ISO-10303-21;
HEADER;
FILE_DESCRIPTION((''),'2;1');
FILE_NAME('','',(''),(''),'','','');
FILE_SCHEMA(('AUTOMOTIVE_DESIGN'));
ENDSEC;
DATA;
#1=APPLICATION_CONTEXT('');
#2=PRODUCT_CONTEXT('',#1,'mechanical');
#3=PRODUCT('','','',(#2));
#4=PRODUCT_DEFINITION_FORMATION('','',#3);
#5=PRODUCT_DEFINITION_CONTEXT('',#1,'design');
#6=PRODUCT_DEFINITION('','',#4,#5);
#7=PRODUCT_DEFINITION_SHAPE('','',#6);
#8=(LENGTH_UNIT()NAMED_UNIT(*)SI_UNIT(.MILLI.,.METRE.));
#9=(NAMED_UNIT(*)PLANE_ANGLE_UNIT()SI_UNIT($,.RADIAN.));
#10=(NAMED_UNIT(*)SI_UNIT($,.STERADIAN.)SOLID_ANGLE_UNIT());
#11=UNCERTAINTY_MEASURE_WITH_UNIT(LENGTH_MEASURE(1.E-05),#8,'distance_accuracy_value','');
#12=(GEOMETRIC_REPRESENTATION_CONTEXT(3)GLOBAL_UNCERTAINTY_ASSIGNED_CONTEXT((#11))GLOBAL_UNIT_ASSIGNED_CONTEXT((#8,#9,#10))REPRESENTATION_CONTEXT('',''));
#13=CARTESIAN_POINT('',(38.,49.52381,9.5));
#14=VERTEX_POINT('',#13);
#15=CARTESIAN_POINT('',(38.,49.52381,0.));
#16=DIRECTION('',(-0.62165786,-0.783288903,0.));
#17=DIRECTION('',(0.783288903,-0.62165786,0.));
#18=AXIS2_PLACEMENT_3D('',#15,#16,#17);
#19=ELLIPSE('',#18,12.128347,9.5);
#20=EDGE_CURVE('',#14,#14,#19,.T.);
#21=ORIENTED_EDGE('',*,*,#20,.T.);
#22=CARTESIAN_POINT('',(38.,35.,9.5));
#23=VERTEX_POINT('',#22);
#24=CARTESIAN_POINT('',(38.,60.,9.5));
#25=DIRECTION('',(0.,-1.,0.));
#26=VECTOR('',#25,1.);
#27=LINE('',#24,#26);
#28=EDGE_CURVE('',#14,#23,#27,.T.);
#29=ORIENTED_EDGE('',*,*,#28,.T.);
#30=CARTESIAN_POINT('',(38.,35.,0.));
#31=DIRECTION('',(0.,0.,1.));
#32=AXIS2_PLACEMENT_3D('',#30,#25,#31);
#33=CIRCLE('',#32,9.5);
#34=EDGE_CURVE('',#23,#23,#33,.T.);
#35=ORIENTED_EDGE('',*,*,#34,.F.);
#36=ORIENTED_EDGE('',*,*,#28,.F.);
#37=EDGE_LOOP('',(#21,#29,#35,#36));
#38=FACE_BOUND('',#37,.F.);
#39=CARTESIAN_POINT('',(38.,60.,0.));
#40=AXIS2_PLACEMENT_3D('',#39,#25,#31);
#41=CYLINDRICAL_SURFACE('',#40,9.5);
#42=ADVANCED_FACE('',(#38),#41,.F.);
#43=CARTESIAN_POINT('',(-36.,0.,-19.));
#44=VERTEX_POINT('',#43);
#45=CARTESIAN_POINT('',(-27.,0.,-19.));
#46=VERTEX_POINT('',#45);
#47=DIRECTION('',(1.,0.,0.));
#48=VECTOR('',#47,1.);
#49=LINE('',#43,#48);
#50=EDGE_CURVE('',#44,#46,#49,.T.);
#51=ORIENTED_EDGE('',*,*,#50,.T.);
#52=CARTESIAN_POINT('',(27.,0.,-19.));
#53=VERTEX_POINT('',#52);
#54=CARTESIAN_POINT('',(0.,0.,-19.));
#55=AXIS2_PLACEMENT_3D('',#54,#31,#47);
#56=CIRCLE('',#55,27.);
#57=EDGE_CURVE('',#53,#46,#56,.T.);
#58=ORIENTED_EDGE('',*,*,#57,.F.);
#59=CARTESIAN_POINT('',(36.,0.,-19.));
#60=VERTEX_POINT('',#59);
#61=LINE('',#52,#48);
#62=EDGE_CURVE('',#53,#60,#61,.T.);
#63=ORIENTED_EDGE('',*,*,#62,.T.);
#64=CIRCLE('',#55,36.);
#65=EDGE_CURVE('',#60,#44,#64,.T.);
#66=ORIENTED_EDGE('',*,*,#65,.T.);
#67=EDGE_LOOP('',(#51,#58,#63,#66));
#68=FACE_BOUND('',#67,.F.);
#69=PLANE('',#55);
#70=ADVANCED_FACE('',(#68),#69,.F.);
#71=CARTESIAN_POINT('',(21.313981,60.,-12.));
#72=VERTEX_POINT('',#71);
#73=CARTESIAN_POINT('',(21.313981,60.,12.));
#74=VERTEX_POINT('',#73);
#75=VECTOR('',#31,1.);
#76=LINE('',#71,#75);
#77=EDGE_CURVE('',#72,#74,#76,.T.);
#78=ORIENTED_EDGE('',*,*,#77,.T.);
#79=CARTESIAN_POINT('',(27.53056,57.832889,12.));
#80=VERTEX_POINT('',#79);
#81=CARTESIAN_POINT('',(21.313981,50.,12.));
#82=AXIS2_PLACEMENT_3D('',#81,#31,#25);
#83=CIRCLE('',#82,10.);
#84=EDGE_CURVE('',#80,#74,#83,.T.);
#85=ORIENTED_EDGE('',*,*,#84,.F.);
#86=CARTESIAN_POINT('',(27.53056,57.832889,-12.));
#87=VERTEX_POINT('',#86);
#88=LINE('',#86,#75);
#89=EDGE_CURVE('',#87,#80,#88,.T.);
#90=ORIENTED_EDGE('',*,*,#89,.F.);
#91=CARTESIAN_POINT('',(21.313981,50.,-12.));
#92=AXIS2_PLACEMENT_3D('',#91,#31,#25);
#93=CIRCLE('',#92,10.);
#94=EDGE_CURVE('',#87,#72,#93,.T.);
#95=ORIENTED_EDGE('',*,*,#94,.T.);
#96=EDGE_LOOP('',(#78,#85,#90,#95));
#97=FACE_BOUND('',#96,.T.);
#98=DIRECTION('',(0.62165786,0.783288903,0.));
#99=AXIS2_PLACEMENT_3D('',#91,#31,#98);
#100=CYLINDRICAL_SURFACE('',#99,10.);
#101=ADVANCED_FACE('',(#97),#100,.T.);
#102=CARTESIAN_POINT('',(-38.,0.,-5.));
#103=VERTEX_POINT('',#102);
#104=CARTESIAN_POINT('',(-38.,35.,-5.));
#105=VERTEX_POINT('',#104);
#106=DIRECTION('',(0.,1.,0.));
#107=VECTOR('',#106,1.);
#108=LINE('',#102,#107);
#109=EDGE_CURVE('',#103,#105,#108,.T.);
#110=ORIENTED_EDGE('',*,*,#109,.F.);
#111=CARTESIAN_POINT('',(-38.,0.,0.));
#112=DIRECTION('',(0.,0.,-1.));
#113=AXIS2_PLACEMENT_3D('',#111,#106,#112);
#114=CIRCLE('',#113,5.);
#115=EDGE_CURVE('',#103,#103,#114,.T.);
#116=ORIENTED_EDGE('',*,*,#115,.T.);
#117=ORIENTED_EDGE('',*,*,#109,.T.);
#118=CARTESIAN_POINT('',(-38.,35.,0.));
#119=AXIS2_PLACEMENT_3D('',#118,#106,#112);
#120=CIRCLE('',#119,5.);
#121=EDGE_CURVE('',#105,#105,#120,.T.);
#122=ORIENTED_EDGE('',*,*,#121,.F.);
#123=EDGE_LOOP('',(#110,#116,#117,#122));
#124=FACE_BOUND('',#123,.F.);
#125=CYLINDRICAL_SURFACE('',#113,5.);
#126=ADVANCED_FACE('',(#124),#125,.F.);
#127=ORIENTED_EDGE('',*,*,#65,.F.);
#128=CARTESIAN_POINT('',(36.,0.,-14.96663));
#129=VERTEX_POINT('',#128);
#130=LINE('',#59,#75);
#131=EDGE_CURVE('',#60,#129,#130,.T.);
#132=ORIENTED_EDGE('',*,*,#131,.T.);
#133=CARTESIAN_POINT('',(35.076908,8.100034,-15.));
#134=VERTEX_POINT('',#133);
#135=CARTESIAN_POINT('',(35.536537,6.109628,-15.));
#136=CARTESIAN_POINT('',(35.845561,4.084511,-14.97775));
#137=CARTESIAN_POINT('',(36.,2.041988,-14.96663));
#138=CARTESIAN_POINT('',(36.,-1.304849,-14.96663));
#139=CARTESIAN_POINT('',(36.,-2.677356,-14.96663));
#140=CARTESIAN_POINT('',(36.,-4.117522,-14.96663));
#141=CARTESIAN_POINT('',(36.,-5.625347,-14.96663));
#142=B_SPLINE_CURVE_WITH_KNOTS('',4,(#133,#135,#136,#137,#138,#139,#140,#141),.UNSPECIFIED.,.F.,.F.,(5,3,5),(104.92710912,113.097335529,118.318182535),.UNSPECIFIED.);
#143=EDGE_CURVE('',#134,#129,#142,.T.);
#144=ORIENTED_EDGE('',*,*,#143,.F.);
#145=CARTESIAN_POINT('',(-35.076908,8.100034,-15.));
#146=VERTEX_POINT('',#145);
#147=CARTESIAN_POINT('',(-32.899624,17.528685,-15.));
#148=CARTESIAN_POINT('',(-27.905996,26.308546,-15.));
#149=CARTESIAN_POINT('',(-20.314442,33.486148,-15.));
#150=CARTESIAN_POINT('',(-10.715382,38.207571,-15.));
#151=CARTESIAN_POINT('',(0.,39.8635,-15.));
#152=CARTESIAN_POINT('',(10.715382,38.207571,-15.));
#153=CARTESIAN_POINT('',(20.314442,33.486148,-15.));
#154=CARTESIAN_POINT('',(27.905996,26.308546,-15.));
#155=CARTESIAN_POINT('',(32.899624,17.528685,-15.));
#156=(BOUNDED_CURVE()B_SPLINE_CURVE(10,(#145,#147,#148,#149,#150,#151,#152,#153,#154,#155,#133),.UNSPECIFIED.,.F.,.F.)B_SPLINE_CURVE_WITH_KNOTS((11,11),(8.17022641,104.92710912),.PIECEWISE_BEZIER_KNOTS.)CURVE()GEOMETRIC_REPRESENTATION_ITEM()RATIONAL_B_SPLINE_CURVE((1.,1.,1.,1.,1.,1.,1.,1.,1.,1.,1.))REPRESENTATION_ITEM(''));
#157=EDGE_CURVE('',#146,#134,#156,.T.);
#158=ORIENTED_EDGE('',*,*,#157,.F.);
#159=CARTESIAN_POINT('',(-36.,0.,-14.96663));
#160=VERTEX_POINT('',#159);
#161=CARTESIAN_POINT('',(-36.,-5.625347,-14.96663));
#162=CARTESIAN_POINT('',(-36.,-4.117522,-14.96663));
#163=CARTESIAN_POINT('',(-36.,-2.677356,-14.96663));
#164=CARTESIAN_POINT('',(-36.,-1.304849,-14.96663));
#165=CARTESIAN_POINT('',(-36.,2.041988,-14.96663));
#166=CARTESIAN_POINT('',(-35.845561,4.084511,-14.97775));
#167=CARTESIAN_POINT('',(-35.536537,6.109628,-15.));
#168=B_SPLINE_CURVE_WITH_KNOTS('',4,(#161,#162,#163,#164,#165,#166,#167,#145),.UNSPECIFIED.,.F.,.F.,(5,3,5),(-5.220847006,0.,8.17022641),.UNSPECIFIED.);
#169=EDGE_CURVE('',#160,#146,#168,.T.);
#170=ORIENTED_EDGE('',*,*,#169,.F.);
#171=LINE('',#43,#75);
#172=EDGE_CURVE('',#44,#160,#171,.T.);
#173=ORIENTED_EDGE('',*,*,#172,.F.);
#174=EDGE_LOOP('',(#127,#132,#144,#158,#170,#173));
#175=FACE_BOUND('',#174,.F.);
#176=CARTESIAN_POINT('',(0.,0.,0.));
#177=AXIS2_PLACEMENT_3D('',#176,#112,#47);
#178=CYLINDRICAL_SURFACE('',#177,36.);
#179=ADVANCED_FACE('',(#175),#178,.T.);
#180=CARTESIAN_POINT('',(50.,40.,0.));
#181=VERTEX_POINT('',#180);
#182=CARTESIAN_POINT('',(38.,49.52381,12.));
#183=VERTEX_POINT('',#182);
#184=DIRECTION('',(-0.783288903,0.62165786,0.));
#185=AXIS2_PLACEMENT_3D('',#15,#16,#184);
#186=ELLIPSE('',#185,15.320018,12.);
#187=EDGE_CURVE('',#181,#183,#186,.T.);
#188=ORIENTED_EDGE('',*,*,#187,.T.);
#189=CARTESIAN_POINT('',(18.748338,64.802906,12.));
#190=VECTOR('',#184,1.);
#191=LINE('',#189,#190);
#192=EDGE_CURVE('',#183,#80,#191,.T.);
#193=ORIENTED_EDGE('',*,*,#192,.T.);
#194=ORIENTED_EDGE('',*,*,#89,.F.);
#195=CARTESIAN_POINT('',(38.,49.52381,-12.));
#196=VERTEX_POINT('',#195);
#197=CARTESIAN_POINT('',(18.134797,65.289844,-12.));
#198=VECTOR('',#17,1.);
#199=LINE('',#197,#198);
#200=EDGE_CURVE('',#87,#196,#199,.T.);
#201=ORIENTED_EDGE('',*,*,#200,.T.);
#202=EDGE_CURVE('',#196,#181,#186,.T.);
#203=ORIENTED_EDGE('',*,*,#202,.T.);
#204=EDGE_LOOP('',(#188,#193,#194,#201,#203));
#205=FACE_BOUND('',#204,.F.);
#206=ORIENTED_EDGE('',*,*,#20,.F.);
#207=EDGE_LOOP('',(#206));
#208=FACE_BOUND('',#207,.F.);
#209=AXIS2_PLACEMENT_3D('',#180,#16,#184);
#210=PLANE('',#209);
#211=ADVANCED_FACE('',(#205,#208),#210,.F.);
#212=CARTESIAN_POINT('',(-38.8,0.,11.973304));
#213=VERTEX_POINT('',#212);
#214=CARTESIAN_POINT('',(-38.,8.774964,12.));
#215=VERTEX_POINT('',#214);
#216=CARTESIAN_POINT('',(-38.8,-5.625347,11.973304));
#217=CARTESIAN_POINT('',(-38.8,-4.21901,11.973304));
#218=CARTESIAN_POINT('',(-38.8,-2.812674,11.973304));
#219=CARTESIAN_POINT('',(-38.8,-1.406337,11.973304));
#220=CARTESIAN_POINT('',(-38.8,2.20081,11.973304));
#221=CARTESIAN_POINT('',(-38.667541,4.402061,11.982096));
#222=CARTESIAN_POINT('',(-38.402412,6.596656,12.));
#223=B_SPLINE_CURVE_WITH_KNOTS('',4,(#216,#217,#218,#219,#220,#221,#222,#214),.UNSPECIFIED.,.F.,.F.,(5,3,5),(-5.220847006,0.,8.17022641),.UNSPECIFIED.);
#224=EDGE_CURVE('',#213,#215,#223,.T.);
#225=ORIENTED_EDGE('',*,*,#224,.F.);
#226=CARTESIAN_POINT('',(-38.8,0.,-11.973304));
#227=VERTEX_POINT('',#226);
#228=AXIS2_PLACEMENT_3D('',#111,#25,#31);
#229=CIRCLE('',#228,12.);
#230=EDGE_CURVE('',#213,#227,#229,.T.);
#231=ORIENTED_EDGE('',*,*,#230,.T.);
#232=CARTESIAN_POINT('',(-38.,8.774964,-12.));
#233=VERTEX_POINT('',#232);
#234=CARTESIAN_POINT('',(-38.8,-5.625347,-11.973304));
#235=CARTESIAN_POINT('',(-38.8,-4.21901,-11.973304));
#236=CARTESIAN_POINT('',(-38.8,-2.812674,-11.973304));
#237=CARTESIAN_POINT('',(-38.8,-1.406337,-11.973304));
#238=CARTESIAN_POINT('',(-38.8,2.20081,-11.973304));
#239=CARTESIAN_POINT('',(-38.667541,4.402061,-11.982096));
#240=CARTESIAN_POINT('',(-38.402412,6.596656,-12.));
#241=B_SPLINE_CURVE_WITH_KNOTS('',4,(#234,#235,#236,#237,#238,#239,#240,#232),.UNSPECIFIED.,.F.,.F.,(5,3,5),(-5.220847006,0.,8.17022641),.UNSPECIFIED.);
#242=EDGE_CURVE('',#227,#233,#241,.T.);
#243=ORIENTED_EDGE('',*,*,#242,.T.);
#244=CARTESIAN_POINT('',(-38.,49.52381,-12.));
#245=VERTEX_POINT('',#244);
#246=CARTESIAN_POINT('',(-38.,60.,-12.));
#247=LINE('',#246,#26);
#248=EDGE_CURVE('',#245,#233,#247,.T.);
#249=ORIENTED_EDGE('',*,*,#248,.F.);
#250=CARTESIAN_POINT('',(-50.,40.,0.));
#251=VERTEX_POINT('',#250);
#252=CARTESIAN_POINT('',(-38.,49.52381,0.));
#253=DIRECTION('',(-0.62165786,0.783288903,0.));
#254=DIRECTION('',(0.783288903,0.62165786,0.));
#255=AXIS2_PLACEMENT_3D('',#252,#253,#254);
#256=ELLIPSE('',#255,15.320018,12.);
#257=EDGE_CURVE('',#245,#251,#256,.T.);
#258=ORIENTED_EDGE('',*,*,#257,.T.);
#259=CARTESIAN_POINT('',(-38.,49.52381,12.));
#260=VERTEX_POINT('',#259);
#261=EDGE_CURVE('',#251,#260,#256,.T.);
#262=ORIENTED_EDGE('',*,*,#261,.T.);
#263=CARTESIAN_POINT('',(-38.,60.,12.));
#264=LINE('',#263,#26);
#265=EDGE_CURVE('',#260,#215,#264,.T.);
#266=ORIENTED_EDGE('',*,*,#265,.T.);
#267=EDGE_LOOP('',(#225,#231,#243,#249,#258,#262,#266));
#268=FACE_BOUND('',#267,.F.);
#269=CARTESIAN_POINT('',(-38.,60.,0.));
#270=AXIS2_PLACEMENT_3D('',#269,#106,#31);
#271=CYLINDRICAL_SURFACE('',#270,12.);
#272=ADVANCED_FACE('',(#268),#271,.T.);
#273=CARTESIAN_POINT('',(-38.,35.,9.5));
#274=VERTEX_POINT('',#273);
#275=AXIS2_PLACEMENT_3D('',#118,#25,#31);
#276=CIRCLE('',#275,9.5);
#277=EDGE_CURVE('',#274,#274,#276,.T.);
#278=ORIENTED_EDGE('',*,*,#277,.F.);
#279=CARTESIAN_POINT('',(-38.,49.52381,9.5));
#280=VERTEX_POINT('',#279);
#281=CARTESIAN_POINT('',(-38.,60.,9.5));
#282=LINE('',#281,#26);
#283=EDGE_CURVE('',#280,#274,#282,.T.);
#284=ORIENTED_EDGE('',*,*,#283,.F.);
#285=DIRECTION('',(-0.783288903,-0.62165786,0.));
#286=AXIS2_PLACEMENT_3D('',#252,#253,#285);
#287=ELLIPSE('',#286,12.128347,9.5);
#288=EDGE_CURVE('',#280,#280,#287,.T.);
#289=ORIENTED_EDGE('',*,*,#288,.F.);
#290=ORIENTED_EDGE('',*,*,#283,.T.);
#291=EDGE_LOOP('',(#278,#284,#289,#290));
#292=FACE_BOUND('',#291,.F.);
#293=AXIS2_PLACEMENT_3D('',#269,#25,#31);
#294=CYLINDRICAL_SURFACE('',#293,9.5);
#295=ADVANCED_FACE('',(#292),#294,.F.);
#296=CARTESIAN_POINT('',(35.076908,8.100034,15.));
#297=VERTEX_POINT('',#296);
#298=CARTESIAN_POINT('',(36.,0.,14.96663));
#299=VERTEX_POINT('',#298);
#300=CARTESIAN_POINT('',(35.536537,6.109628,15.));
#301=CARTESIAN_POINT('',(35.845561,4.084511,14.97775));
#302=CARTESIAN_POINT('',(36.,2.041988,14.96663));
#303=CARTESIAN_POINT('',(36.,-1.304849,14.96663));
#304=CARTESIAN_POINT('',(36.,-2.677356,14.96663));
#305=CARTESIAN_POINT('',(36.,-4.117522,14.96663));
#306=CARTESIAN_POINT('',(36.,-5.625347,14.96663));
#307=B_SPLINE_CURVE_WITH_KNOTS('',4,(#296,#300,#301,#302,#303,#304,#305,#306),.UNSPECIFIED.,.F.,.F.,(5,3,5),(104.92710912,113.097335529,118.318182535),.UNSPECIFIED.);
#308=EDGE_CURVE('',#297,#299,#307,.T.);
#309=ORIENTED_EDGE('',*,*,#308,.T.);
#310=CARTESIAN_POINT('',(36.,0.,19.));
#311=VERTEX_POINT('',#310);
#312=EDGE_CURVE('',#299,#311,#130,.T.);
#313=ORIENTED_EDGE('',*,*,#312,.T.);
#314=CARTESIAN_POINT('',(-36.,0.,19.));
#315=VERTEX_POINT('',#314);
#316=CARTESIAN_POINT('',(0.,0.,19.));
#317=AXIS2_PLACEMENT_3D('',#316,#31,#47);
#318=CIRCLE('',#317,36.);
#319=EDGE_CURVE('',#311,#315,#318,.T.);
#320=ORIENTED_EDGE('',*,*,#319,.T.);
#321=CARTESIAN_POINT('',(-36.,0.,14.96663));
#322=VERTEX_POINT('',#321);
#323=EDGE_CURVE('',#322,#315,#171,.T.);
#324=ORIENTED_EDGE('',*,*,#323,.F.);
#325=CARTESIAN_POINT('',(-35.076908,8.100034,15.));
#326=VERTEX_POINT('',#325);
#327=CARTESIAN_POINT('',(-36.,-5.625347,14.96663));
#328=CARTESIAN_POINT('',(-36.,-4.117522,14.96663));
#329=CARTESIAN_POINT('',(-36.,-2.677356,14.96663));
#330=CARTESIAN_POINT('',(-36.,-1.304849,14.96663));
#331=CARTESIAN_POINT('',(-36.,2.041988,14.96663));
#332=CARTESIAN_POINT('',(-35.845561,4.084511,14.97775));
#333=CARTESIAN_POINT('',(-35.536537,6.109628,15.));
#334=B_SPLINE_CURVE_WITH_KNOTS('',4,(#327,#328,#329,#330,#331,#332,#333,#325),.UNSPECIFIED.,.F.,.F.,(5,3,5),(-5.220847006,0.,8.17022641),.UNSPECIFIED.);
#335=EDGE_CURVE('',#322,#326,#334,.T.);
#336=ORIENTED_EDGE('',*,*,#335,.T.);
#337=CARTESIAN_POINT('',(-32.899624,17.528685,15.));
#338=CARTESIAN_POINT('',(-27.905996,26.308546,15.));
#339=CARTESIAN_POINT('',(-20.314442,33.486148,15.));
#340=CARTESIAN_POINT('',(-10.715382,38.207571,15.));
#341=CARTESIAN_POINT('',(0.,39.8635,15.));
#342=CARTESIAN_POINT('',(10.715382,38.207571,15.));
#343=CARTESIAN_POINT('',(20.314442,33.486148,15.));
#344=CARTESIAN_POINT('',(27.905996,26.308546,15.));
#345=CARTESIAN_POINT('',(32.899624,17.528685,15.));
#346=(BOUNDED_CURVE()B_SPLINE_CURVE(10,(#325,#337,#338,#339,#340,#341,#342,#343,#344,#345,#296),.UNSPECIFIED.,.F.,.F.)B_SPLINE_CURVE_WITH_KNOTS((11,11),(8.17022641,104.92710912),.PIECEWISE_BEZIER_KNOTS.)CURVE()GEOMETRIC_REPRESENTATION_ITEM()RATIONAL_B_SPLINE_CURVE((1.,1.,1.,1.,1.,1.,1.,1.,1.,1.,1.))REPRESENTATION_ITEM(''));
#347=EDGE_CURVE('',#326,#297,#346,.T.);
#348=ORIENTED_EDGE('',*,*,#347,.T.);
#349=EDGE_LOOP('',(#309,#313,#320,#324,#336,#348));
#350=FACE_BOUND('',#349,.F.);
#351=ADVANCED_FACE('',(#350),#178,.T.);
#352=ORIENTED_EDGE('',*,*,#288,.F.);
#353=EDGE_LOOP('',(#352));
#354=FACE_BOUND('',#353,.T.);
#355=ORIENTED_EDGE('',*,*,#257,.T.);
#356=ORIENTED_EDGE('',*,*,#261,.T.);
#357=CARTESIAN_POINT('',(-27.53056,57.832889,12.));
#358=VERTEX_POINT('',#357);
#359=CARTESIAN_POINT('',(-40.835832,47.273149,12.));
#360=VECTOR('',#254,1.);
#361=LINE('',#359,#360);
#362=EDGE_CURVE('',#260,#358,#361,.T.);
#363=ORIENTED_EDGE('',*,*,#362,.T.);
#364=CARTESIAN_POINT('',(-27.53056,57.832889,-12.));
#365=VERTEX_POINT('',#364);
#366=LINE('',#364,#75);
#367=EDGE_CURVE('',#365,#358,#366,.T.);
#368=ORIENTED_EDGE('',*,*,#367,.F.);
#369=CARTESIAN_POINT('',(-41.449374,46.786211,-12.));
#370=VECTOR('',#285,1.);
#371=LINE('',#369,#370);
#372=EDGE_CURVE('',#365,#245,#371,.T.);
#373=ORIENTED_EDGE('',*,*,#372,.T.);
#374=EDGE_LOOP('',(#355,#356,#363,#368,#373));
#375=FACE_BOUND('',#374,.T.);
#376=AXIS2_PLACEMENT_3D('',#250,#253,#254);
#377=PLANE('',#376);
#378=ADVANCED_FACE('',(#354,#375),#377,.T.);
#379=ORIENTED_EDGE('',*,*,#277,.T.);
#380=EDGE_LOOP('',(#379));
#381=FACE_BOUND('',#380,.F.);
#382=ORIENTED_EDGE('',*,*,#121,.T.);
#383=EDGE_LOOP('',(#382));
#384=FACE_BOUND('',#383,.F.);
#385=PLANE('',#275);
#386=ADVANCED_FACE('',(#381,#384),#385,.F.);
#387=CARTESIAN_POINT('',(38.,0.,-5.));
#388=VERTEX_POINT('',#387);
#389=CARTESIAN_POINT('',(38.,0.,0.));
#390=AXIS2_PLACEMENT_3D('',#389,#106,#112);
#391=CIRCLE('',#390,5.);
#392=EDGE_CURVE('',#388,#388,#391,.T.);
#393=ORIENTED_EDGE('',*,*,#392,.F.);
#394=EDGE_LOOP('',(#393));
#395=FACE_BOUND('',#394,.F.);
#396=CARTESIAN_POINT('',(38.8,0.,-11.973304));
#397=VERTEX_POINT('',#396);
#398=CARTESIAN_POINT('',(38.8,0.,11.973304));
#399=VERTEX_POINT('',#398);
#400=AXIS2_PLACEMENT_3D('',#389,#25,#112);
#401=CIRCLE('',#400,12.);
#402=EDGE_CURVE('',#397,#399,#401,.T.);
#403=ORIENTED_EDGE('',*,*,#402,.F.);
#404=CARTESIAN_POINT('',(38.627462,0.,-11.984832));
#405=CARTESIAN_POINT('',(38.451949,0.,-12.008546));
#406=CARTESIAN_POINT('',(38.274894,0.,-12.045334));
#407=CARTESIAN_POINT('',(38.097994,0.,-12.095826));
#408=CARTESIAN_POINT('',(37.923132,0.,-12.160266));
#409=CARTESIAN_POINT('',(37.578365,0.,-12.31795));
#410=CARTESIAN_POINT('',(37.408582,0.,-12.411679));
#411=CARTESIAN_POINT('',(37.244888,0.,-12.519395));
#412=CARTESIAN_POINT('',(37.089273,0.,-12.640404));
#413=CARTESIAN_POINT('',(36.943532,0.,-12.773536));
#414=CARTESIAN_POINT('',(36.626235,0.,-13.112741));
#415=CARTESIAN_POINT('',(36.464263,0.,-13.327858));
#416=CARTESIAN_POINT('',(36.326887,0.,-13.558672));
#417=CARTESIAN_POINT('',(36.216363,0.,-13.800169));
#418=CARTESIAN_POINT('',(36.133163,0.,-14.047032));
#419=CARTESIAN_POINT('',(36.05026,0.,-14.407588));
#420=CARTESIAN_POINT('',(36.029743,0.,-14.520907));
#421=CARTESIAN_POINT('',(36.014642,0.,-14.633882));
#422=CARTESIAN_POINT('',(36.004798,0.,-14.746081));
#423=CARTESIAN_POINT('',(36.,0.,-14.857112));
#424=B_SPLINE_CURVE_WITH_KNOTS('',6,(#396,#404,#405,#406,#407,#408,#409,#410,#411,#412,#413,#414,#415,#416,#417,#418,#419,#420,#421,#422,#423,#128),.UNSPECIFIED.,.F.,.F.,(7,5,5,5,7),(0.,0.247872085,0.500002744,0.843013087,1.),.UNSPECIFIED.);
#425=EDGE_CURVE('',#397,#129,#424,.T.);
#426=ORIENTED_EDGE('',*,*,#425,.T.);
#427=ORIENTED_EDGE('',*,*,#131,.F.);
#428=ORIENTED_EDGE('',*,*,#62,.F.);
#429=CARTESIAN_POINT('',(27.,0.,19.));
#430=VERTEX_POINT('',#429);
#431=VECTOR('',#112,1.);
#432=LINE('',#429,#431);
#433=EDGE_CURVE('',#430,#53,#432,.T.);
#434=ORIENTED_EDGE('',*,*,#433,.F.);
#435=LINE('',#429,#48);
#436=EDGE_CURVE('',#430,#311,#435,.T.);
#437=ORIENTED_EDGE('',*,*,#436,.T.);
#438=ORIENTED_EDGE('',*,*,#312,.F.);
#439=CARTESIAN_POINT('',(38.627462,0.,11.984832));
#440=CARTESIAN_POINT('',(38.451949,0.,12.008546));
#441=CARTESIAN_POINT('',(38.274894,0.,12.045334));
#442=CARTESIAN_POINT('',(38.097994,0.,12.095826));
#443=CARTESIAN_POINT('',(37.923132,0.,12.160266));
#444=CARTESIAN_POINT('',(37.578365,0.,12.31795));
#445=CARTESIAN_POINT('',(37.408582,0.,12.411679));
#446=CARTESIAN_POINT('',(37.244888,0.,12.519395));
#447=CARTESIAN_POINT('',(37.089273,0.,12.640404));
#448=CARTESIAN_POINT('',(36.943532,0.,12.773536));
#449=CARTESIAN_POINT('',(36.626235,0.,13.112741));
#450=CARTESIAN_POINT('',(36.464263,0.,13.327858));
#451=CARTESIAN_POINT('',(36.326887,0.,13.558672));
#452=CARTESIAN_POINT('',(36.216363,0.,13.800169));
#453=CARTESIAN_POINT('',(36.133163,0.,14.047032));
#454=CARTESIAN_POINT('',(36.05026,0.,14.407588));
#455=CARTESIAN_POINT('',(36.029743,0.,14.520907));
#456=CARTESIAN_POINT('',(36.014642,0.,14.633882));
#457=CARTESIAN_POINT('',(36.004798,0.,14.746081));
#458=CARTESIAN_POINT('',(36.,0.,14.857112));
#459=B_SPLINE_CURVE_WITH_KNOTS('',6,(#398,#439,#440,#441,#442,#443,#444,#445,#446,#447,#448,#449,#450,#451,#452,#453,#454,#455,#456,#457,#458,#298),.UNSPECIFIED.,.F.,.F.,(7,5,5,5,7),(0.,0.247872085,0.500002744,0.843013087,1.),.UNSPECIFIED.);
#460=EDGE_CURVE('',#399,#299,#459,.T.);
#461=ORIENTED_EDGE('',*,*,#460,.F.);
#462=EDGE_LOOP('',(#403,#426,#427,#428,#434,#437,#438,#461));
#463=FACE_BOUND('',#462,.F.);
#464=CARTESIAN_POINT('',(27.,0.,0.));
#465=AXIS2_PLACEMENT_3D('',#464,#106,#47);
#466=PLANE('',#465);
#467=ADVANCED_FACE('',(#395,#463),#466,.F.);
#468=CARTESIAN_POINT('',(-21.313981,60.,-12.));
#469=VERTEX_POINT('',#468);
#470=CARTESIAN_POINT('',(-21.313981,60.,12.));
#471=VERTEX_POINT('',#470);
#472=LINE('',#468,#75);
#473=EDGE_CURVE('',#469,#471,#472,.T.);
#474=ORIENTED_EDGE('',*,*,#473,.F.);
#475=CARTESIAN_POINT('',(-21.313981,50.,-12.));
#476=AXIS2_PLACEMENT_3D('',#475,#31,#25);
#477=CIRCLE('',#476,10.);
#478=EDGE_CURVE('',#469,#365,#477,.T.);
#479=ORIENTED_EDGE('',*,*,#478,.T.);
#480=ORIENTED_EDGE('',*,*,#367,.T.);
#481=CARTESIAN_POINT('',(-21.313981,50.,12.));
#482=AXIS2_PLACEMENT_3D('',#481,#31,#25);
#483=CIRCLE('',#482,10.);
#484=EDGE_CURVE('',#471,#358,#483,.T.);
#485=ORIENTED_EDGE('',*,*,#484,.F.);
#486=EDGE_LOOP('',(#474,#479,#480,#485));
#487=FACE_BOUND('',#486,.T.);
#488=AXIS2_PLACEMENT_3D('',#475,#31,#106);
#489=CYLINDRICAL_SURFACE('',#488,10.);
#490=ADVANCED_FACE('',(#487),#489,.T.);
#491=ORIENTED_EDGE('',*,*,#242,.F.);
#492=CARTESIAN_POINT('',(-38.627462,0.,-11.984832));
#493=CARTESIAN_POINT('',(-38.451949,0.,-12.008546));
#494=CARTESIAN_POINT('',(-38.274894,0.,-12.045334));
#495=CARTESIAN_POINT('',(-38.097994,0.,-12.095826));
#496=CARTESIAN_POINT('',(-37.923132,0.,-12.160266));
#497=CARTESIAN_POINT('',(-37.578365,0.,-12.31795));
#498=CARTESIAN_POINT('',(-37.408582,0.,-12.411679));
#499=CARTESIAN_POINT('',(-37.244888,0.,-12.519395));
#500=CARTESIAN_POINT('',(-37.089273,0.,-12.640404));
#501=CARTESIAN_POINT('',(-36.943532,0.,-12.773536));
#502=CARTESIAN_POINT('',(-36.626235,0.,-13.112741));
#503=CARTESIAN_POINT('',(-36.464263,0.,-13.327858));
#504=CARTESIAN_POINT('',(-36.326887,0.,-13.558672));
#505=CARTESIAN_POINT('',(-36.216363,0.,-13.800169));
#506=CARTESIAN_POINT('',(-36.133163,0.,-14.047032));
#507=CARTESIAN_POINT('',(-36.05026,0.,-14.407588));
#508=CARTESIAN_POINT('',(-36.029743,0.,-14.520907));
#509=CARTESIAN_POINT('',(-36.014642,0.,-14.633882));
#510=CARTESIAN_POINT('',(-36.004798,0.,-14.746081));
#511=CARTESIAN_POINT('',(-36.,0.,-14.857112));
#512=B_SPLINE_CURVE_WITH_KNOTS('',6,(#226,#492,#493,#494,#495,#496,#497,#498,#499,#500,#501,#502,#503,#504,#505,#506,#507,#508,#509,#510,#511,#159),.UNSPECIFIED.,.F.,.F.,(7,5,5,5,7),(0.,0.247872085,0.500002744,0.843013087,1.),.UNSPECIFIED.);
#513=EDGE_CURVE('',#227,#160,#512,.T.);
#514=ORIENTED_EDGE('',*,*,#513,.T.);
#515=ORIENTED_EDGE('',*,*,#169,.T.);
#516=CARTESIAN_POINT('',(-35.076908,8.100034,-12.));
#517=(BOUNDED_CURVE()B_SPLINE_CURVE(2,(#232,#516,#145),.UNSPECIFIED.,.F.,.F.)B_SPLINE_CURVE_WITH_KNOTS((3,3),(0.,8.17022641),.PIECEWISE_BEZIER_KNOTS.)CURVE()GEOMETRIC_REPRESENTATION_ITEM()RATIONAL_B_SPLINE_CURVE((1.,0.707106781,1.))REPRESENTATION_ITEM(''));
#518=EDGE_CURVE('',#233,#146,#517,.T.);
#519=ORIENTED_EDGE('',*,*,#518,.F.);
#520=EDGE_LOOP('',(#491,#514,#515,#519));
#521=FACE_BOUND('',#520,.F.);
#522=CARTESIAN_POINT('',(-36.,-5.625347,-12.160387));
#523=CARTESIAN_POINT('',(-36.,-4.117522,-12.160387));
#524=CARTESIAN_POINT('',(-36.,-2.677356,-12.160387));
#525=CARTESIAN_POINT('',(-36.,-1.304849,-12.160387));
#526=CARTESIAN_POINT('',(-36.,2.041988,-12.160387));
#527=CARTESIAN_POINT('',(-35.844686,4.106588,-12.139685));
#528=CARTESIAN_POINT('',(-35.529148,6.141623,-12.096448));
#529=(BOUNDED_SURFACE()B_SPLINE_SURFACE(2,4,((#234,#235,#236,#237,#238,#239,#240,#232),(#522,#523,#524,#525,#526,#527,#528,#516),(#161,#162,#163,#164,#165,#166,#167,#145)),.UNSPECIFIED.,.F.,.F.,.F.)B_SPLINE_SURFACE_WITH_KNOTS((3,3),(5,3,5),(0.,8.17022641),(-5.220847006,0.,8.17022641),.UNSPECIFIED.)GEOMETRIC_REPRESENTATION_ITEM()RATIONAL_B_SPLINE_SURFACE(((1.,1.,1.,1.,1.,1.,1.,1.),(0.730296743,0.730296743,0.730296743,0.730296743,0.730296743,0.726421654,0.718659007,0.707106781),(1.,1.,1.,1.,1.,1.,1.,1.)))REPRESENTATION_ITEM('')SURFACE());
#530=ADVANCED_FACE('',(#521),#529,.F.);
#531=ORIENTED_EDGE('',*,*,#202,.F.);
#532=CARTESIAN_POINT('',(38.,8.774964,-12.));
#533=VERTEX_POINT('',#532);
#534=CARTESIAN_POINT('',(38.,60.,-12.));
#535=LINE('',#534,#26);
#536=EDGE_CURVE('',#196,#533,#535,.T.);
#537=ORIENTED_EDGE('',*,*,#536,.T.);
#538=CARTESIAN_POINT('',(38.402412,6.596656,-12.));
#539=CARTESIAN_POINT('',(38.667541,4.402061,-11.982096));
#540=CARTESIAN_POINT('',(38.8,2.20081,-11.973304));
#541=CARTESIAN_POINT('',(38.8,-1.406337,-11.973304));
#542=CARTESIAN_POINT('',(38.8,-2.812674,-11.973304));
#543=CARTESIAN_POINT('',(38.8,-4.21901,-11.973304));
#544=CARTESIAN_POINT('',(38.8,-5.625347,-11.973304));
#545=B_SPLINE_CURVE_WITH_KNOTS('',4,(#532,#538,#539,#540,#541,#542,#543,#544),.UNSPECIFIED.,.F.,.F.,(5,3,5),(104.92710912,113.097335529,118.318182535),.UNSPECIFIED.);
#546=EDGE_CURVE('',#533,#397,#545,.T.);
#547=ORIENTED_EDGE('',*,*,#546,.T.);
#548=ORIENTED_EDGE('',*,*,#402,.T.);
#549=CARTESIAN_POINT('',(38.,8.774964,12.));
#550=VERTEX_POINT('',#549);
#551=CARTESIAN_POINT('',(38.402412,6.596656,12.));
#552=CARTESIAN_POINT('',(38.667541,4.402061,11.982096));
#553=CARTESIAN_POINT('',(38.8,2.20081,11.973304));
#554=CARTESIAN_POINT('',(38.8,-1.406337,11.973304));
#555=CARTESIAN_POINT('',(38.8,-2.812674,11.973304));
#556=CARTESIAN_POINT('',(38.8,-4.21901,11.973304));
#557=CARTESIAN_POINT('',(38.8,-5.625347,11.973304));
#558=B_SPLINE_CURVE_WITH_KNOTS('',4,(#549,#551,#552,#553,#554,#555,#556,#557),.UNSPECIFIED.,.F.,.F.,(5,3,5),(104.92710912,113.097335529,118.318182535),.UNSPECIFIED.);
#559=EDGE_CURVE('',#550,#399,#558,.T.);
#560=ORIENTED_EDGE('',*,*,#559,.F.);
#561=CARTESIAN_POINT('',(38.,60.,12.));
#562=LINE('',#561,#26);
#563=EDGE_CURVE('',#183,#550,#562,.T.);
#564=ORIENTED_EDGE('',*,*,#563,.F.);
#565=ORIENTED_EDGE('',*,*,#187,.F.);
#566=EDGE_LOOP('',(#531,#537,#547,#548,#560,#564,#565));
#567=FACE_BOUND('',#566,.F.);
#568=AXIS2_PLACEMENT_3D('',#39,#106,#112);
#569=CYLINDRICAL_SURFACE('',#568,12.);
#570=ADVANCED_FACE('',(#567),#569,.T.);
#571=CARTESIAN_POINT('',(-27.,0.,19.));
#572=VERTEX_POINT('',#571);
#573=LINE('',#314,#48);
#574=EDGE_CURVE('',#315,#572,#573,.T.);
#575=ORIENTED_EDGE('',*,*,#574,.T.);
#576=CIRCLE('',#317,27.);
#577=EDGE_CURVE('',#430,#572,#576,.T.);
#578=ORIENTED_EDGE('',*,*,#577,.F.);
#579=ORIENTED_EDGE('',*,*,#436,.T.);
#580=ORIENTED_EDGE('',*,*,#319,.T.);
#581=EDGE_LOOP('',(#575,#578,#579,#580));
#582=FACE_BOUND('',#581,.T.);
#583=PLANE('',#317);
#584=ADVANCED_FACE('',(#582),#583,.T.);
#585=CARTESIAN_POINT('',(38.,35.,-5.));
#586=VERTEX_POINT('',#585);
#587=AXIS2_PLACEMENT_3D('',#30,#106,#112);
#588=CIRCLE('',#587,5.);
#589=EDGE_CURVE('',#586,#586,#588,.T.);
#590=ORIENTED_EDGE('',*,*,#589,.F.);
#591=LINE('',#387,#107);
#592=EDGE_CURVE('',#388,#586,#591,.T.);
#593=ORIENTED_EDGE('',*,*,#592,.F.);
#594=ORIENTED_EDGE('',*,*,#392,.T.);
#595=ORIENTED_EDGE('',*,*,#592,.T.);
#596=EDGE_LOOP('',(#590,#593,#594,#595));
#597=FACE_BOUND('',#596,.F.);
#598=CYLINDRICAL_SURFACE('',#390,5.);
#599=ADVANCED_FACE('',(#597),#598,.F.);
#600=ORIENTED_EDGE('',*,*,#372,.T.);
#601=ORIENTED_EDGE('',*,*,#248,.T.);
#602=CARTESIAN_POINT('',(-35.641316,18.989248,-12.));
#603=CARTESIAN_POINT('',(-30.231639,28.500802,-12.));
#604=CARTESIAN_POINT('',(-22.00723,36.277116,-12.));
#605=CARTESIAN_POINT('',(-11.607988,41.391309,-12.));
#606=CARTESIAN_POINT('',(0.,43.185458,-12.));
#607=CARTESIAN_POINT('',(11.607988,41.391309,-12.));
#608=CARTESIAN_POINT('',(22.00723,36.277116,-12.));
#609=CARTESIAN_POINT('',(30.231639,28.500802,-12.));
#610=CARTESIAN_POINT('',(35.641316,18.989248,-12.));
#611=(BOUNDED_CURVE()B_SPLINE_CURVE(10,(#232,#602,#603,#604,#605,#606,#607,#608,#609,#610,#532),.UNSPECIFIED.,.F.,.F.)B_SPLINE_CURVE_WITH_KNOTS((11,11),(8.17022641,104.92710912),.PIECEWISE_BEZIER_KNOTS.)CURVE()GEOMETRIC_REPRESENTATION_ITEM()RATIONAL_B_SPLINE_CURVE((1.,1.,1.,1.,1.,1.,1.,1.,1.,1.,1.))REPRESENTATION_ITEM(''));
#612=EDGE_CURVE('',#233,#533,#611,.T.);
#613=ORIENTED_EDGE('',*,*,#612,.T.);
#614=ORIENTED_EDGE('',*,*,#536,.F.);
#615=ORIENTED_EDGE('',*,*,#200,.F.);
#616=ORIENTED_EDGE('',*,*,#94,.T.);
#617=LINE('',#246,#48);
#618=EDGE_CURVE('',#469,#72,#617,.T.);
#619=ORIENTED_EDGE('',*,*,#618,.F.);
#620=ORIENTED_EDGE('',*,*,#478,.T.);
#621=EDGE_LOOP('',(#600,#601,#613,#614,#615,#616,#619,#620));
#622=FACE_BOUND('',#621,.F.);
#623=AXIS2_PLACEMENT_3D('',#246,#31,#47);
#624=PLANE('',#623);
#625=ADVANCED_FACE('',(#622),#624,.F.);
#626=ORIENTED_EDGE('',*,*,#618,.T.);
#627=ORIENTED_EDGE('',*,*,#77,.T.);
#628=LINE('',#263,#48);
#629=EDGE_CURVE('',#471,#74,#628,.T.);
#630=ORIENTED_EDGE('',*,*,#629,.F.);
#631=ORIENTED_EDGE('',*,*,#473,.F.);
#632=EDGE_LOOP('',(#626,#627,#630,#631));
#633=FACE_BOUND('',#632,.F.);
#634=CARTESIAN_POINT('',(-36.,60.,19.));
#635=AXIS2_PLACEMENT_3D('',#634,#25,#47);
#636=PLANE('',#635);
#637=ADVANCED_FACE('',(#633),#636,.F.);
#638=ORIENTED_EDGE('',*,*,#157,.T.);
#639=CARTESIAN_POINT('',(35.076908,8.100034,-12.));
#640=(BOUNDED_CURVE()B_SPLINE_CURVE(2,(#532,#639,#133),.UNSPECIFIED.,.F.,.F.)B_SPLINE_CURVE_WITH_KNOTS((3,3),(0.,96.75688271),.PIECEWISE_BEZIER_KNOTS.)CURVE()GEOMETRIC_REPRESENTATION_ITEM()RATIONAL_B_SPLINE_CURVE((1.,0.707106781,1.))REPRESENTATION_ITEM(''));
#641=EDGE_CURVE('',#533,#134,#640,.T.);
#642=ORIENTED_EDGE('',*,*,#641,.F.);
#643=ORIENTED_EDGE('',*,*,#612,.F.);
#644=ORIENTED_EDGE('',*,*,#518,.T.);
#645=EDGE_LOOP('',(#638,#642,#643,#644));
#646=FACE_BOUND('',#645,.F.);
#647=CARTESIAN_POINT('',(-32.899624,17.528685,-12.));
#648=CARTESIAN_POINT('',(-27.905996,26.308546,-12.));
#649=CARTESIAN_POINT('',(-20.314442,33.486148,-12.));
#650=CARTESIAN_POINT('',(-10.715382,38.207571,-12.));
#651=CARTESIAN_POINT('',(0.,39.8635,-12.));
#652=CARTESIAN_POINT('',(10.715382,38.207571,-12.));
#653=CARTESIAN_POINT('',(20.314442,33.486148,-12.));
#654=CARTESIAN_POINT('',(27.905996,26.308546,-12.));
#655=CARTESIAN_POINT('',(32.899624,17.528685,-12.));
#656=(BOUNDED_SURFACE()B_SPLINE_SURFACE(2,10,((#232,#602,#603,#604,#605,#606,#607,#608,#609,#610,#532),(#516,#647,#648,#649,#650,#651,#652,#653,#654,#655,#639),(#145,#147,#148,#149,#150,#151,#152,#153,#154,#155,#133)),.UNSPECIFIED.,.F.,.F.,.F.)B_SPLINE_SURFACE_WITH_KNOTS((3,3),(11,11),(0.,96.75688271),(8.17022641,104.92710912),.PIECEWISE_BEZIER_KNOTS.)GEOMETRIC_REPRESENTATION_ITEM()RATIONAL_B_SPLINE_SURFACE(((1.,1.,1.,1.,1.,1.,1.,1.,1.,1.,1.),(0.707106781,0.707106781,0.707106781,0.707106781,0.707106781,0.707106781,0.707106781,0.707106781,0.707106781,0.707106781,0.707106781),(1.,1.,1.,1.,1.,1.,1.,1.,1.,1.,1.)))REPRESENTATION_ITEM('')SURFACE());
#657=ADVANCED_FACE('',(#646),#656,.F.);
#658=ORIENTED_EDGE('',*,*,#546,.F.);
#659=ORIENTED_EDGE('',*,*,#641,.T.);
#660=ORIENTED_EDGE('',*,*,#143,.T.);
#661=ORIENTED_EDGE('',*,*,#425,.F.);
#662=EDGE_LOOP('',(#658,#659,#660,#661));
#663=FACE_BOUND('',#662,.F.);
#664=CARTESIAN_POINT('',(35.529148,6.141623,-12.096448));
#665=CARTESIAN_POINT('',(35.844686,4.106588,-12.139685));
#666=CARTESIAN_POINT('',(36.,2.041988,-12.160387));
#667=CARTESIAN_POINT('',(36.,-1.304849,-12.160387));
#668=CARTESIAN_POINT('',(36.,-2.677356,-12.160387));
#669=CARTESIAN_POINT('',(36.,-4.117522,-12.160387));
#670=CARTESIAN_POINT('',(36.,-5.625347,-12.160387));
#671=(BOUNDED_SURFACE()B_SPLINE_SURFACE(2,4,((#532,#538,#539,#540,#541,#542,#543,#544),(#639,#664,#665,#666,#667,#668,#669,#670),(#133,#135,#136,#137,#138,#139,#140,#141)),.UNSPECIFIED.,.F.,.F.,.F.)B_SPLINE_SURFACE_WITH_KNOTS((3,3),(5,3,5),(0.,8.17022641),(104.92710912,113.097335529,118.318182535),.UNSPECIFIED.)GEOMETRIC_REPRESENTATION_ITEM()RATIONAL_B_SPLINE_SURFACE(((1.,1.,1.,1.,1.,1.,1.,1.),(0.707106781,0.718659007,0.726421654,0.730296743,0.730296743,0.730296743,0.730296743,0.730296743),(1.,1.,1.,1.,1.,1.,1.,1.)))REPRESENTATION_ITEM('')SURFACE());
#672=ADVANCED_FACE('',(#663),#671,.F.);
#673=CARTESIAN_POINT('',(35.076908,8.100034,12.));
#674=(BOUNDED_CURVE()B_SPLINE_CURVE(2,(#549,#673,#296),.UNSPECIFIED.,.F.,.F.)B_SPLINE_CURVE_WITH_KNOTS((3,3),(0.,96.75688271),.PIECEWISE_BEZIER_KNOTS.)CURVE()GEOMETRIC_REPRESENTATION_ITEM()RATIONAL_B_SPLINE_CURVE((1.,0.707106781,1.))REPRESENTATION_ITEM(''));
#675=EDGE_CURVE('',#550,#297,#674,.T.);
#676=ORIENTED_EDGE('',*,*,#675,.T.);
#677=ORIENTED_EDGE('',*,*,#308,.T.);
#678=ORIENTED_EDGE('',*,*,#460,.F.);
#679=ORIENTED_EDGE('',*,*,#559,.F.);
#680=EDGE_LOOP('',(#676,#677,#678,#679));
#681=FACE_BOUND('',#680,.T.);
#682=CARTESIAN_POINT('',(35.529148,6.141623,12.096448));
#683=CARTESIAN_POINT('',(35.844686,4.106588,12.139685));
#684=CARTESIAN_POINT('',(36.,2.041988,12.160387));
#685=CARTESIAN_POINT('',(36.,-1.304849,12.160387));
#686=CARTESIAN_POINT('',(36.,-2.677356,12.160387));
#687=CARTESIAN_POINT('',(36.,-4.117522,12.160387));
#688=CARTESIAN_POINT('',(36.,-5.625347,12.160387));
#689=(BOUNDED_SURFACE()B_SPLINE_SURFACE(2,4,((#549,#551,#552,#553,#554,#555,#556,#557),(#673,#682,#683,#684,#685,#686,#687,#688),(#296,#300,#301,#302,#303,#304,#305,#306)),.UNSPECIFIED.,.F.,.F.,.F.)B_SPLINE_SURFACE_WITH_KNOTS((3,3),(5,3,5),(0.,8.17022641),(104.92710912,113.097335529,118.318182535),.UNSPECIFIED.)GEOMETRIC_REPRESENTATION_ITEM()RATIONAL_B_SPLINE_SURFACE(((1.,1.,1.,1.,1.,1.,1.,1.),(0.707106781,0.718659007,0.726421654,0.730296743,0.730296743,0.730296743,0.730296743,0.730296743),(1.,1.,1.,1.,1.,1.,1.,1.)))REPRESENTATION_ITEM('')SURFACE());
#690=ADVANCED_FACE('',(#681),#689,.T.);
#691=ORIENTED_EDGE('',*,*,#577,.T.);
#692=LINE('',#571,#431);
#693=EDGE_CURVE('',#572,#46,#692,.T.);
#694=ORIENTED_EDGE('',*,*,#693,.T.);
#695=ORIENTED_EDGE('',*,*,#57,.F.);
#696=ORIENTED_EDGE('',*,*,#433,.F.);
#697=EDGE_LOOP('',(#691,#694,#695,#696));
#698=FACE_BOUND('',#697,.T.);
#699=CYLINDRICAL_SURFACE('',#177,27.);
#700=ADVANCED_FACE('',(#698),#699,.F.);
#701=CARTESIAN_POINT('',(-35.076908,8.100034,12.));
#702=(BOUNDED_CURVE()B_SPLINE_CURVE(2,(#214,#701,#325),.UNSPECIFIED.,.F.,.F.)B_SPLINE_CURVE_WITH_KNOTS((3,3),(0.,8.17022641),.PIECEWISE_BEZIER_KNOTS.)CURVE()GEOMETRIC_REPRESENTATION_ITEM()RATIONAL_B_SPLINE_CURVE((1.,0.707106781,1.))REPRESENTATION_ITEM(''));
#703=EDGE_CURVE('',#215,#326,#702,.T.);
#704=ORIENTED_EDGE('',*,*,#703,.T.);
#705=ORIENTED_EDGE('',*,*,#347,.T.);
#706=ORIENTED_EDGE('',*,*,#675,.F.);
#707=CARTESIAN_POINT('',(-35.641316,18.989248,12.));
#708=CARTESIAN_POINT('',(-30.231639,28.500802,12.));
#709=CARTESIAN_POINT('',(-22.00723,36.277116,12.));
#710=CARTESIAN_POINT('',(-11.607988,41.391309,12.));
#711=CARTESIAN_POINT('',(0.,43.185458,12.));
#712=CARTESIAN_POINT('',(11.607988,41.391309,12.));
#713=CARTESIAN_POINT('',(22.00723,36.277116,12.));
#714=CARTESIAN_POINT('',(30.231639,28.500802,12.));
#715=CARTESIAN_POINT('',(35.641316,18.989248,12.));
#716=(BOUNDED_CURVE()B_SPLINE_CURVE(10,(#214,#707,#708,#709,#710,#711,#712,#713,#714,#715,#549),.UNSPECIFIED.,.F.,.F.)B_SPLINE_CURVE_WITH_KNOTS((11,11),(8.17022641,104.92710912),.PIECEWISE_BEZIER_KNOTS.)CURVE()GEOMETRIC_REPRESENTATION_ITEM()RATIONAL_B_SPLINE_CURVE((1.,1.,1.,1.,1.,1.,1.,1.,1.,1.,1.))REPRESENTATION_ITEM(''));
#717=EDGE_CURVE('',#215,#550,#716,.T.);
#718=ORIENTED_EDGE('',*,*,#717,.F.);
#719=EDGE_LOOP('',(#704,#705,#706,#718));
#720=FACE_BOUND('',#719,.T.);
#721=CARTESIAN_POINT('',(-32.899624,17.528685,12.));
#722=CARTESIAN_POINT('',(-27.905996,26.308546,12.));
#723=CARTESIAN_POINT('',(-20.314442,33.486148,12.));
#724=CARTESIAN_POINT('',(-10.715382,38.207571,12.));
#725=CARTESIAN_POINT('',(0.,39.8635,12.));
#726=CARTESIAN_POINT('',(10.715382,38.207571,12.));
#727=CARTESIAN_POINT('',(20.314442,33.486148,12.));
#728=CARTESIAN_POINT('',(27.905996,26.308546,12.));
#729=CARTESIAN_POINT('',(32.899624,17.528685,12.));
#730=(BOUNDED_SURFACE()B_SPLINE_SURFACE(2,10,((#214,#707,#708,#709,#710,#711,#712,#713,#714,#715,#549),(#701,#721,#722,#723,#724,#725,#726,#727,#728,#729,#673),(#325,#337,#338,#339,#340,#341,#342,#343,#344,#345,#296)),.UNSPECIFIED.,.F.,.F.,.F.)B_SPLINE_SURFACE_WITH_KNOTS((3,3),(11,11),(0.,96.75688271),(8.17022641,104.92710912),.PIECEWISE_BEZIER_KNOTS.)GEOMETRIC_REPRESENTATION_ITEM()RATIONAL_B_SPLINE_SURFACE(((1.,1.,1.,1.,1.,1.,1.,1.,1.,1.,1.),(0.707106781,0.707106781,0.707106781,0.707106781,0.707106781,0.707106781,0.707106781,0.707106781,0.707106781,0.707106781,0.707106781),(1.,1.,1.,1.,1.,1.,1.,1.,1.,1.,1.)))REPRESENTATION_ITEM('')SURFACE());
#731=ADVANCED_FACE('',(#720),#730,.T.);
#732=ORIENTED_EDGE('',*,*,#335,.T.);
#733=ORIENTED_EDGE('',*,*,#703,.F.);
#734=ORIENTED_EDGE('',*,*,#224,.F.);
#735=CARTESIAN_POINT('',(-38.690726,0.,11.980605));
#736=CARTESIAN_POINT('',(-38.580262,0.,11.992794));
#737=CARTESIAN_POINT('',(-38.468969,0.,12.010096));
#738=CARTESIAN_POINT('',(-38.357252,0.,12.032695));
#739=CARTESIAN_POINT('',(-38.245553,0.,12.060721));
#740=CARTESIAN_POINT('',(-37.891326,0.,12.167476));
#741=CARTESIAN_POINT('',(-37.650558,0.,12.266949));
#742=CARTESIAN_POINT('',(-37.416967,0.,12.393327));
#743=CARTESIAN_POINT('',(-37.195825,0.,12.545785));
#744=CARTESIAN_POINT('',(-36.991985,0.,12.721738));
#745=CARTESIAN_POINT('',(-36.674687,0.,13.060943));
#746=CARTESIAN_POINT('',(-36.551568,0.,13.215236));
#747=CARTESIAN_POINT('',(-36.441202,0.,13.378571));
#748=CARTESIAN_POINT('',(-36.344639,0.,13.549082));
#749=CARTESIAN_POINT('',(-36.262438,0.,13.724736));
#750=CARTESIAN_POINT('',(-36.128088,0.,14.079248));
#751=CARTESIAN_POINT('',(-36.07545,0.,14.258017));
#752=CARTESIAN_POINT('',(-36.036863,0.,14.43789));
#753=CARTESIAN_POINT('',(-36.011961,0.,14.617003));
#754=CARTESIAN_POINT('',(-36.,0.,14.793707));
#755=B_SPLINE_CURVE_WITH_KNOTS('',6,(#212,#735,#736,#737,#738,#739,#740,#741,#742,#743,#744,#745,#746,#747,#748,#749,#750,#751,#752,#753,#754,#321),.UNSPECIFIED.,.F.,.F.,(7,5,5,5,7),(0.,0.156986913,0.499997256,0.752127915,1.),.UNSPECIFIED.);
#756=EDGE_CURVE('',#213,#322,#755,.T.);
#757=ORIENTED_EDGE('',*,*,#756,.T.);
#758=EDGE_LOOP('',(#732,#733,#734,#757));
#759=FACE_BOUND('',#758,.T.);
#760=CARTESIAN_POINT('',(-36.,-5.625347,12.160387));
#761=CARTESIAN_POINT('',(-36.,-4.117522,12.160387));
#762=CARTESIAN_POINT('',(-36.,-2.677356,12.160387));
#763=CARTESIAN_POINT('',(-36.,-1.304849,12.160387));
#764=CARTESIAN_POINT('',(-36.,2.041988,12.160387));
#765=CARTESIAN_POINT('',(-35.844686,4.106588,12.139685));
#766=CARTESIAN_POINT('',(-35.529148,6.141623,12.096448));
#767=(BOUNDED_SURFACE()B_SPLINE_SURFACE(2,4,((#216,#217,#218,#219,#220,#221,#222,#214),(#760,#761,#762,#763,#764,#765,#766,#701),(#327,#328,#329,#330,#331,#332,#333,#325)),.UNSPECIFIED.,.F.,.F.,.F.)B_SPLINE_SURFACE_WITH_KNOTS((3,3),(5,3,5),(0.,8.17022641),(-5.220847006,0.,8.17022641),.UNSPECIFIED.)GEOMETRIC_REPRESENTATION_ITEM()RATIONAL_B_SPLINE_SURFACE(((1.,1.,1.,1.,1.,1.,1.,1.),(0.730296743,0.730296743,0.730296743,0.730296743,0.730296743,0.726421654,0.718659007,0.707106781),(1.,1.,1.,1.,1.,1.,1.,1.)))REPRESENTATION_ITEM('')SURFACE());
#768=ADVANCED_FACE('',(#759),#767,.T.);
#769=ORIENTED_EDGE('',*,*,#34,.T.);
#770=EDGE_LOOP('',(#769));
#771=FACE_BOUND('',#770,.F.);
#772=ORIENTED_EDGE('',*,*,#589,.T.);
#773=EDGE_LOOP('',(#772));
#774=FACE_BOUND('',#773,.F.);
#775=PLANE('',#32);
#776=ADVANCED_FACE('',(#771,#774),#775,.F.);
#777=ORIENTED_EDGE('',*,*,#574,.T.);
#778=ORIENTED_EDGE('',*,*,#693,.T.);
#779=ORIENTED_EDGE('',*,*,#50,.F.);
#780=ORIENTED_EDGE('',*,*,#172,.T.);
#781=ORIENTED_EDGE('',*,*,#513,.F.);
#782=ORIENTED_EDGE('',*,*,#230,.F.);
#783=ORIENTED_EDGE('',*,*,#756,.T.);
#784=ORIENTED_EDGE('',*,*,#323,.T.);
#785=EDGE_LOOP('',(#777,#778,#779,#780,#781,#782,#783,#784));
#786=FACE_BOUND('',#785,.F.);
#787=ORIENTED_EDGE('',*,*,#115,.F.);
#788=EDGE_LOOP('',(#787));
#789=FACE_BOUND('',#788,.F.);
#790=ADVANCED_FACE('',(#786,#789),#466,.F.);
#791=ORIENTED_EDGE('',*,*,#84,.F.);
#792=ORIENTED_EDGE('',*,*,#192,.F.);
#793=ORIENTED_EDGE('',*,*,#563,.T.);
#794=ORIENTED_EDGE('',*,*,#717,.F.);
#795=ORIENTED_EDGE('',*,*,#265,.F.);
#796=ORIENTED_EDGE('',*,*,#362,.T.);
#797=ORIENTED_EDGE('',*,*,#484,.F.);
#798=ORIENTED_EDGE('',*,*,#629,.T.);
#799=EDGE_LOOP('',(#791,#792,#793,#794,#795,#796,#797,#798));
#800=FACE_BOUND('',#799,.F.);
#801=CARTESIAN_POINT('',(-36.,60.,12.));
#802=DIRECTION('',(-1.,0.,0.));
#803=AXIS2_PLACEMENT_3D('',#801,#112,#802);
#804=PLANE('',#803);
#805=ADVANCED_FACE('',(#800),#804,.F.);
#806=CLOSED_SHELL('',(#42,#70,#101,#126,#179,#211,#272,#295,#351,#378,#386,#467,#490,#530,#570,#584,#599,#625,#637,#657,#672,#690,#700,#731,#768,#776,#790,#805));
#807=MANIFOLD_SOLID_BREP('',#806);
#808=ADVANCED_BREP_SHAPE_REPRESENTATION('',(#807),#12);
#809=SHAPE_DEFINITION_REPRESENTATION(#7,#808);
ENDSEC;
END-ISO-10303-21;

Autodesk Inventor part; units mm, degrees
ref_plane "YZ Plane" through (0, 0, 0) normal (1, 0, 0) x (0, 1, 0)
ref_plane "XZ Plane" through (0, 0, 0) normal (0, 1, 0) x (-1, 0, 0)
sketch "Sketch1" plane through (0, 0, 0) normal (0, 0, 1) x (1, 0, 0)
  arc A0 (36, 0) -> (-36, 0) centre (0, 0) ccw
  arc A1 (27, 0) -> (-27, 0) centre (0, 0) ccw
  line L0 (-36, 0) -> (-27, 0)
  line L1 (27, 0) -> (36, 0)
  dimension "d0" = 72
  dimension "d1" = 54
  dimension "d2" = 27
  dimension "d3" = 36
extrude "Extrusion1" add sketch "Sketch1" along normal mid plane 38
ref_plane "Work Plane1" through (-36, 60, 19) normal (0, -1, 0) x (1, 0, 0)
sketch "Sketch2" plane through (-36, 60, 19) normal (0, -1, 0) x (1, 0, 0)
  line L0 (9, 0) -> (63, 0) projected
  line L1 (0, -38) -> (0, 0) projected
  line L2 (-2, -19) -> (74, -19) construction
  line L3 (-2, -31) -> (74, -31)
  line L4 (74, -7) -> (-2, -7)
  arc A0 (-2, -7) -> (-2, -31) centre (-2, -19) ccw
  arc A1 (74, -31) -> (74, -7) centre (74, -19) ccw
  point P0 (36, -19)
  point P1 (36, -19)
  point P2 (36, 0)
  point P3 (-14, -19)
  point P4 (0, -19)
  dimension "d7" = 76
  dimension "d8" = 12
extrude "Extrusion2" add sketch "Sketch2" along normal up to surface (60 mm away)
sketch "Sketch3" plane through (0, 0, 12) normal (0, 0, 1) x (1, 0, 0)
  arc A0 (27, 0) -> (-27, 0) centre (0, 0) ccw projected
  line L0 (-27, 0) -> (27, 0) projected
extrude "Extrusion3" cut sketch "Sketch3" against normal through all
sketch "Sketch4" plane through (0, 0, 0) normal (0, 0, 1) x (1, 0, 0)
  arc A0 (27, 0) -> (-27, 0) centre (0, 0) ccw projected
  line L0 (38, 60) -> (-38, 60) projected
  line L1 (-50, 60) -> (-50, 0) projected
  line L2 (-50, 60) -> (-50, 0) projected
  line L3 (-50, 60) -> (-38, 60) projected
  line L4 (-50, 40) -> (-24.8, 60)
  line L5 (-50, 40) -> (-50, 60)
  line L6 (0, 0) -> (0, 60) construction
  line L7 (-38, 60) -> (38, 60)
  line L8 (50, 60) -> (50, 0)
  line L9 (50, 60) -> (38, 60)
  line L10 (50, 40) -> (24.8, 60)
  point P0 (24.8, 60)
  point P1 (50, 40)
  point P2 (-50, 40)
  dimension "d13" = 20
  dimension "d14" = 25.2
extrude "Extrusion4" cut sketch "Sketch4" along normal through all both and the other way through all
fillet "Fillet1" radius 10 2 edges at (24.8, 60, 0) (-24.8, 60, 0)
sketch "Sketch5" plane through (-36, 0, 19) normal (0, -1, 0) x (1, 0, 0)
  arc A0 (-2, -7) -> (-2, -31) centre (-2, -19) ccw projected
  point P0 (36, -19)
  point P1 (0, -31)
  point P2 (0, -7)
hole "Hole1" at (-38, 0, 0) direction (0, 1, 0) diameter 10 end through all
sketch "Sketch6" plane through (27, 0, -19) normal (0, -1, 0) x (1, 0, 0)
  arc A0 (11, 7) -> (11, 31) centre (11, 19) ccw projected
  point P0 (-27, 19)
  point P1 (9, 31)
  point P2 (9, 7)
hole "Hole2" at (38, 0, 0) direction (0, 1, 0) diameter 10 end through all
sketch "Sketch7" plane through (-36, 60, 19) normal (0, 1, 0) x (1, 0, 0)
  circle A0 centre (-2, 19) radius 5 projected
  circle A1 centre (74, 19) radius 5 projected
  point P0 (36, 19)
hole "Hole3" at (-38, 60, 0) at (38, 60, 0) direction (0, -1, 0) diameter 10 end through all counterbore diameter 19 counterbore depth 25
fillet "Fillet2" radius 3 2 edges at (0, 36, -12) (0, 36, 12)
equation "\"d23\" = Thickness"
equation "\"BendRadius\" = Thickness"
equation "\"BendReliefWidth\" = Thickness"
equation "\"BendReliefDepth\" = 0.5 * Thickness"
equation "\"CornerReliefSize\" = 4 * Thickness"
equation "\"MinimumRemnant\" = 2 * Thickness"
equation "\"TransitionRadius\" = BendRadius"
equation "\"JacobiRadiusSize\" = BendRadius"
equation "\"GapSize\" = Thickness"
equation "\"Thickness\" = 0.5"
properties part number "Part 4 Connecting rods cap" material "Stainless Steel"
